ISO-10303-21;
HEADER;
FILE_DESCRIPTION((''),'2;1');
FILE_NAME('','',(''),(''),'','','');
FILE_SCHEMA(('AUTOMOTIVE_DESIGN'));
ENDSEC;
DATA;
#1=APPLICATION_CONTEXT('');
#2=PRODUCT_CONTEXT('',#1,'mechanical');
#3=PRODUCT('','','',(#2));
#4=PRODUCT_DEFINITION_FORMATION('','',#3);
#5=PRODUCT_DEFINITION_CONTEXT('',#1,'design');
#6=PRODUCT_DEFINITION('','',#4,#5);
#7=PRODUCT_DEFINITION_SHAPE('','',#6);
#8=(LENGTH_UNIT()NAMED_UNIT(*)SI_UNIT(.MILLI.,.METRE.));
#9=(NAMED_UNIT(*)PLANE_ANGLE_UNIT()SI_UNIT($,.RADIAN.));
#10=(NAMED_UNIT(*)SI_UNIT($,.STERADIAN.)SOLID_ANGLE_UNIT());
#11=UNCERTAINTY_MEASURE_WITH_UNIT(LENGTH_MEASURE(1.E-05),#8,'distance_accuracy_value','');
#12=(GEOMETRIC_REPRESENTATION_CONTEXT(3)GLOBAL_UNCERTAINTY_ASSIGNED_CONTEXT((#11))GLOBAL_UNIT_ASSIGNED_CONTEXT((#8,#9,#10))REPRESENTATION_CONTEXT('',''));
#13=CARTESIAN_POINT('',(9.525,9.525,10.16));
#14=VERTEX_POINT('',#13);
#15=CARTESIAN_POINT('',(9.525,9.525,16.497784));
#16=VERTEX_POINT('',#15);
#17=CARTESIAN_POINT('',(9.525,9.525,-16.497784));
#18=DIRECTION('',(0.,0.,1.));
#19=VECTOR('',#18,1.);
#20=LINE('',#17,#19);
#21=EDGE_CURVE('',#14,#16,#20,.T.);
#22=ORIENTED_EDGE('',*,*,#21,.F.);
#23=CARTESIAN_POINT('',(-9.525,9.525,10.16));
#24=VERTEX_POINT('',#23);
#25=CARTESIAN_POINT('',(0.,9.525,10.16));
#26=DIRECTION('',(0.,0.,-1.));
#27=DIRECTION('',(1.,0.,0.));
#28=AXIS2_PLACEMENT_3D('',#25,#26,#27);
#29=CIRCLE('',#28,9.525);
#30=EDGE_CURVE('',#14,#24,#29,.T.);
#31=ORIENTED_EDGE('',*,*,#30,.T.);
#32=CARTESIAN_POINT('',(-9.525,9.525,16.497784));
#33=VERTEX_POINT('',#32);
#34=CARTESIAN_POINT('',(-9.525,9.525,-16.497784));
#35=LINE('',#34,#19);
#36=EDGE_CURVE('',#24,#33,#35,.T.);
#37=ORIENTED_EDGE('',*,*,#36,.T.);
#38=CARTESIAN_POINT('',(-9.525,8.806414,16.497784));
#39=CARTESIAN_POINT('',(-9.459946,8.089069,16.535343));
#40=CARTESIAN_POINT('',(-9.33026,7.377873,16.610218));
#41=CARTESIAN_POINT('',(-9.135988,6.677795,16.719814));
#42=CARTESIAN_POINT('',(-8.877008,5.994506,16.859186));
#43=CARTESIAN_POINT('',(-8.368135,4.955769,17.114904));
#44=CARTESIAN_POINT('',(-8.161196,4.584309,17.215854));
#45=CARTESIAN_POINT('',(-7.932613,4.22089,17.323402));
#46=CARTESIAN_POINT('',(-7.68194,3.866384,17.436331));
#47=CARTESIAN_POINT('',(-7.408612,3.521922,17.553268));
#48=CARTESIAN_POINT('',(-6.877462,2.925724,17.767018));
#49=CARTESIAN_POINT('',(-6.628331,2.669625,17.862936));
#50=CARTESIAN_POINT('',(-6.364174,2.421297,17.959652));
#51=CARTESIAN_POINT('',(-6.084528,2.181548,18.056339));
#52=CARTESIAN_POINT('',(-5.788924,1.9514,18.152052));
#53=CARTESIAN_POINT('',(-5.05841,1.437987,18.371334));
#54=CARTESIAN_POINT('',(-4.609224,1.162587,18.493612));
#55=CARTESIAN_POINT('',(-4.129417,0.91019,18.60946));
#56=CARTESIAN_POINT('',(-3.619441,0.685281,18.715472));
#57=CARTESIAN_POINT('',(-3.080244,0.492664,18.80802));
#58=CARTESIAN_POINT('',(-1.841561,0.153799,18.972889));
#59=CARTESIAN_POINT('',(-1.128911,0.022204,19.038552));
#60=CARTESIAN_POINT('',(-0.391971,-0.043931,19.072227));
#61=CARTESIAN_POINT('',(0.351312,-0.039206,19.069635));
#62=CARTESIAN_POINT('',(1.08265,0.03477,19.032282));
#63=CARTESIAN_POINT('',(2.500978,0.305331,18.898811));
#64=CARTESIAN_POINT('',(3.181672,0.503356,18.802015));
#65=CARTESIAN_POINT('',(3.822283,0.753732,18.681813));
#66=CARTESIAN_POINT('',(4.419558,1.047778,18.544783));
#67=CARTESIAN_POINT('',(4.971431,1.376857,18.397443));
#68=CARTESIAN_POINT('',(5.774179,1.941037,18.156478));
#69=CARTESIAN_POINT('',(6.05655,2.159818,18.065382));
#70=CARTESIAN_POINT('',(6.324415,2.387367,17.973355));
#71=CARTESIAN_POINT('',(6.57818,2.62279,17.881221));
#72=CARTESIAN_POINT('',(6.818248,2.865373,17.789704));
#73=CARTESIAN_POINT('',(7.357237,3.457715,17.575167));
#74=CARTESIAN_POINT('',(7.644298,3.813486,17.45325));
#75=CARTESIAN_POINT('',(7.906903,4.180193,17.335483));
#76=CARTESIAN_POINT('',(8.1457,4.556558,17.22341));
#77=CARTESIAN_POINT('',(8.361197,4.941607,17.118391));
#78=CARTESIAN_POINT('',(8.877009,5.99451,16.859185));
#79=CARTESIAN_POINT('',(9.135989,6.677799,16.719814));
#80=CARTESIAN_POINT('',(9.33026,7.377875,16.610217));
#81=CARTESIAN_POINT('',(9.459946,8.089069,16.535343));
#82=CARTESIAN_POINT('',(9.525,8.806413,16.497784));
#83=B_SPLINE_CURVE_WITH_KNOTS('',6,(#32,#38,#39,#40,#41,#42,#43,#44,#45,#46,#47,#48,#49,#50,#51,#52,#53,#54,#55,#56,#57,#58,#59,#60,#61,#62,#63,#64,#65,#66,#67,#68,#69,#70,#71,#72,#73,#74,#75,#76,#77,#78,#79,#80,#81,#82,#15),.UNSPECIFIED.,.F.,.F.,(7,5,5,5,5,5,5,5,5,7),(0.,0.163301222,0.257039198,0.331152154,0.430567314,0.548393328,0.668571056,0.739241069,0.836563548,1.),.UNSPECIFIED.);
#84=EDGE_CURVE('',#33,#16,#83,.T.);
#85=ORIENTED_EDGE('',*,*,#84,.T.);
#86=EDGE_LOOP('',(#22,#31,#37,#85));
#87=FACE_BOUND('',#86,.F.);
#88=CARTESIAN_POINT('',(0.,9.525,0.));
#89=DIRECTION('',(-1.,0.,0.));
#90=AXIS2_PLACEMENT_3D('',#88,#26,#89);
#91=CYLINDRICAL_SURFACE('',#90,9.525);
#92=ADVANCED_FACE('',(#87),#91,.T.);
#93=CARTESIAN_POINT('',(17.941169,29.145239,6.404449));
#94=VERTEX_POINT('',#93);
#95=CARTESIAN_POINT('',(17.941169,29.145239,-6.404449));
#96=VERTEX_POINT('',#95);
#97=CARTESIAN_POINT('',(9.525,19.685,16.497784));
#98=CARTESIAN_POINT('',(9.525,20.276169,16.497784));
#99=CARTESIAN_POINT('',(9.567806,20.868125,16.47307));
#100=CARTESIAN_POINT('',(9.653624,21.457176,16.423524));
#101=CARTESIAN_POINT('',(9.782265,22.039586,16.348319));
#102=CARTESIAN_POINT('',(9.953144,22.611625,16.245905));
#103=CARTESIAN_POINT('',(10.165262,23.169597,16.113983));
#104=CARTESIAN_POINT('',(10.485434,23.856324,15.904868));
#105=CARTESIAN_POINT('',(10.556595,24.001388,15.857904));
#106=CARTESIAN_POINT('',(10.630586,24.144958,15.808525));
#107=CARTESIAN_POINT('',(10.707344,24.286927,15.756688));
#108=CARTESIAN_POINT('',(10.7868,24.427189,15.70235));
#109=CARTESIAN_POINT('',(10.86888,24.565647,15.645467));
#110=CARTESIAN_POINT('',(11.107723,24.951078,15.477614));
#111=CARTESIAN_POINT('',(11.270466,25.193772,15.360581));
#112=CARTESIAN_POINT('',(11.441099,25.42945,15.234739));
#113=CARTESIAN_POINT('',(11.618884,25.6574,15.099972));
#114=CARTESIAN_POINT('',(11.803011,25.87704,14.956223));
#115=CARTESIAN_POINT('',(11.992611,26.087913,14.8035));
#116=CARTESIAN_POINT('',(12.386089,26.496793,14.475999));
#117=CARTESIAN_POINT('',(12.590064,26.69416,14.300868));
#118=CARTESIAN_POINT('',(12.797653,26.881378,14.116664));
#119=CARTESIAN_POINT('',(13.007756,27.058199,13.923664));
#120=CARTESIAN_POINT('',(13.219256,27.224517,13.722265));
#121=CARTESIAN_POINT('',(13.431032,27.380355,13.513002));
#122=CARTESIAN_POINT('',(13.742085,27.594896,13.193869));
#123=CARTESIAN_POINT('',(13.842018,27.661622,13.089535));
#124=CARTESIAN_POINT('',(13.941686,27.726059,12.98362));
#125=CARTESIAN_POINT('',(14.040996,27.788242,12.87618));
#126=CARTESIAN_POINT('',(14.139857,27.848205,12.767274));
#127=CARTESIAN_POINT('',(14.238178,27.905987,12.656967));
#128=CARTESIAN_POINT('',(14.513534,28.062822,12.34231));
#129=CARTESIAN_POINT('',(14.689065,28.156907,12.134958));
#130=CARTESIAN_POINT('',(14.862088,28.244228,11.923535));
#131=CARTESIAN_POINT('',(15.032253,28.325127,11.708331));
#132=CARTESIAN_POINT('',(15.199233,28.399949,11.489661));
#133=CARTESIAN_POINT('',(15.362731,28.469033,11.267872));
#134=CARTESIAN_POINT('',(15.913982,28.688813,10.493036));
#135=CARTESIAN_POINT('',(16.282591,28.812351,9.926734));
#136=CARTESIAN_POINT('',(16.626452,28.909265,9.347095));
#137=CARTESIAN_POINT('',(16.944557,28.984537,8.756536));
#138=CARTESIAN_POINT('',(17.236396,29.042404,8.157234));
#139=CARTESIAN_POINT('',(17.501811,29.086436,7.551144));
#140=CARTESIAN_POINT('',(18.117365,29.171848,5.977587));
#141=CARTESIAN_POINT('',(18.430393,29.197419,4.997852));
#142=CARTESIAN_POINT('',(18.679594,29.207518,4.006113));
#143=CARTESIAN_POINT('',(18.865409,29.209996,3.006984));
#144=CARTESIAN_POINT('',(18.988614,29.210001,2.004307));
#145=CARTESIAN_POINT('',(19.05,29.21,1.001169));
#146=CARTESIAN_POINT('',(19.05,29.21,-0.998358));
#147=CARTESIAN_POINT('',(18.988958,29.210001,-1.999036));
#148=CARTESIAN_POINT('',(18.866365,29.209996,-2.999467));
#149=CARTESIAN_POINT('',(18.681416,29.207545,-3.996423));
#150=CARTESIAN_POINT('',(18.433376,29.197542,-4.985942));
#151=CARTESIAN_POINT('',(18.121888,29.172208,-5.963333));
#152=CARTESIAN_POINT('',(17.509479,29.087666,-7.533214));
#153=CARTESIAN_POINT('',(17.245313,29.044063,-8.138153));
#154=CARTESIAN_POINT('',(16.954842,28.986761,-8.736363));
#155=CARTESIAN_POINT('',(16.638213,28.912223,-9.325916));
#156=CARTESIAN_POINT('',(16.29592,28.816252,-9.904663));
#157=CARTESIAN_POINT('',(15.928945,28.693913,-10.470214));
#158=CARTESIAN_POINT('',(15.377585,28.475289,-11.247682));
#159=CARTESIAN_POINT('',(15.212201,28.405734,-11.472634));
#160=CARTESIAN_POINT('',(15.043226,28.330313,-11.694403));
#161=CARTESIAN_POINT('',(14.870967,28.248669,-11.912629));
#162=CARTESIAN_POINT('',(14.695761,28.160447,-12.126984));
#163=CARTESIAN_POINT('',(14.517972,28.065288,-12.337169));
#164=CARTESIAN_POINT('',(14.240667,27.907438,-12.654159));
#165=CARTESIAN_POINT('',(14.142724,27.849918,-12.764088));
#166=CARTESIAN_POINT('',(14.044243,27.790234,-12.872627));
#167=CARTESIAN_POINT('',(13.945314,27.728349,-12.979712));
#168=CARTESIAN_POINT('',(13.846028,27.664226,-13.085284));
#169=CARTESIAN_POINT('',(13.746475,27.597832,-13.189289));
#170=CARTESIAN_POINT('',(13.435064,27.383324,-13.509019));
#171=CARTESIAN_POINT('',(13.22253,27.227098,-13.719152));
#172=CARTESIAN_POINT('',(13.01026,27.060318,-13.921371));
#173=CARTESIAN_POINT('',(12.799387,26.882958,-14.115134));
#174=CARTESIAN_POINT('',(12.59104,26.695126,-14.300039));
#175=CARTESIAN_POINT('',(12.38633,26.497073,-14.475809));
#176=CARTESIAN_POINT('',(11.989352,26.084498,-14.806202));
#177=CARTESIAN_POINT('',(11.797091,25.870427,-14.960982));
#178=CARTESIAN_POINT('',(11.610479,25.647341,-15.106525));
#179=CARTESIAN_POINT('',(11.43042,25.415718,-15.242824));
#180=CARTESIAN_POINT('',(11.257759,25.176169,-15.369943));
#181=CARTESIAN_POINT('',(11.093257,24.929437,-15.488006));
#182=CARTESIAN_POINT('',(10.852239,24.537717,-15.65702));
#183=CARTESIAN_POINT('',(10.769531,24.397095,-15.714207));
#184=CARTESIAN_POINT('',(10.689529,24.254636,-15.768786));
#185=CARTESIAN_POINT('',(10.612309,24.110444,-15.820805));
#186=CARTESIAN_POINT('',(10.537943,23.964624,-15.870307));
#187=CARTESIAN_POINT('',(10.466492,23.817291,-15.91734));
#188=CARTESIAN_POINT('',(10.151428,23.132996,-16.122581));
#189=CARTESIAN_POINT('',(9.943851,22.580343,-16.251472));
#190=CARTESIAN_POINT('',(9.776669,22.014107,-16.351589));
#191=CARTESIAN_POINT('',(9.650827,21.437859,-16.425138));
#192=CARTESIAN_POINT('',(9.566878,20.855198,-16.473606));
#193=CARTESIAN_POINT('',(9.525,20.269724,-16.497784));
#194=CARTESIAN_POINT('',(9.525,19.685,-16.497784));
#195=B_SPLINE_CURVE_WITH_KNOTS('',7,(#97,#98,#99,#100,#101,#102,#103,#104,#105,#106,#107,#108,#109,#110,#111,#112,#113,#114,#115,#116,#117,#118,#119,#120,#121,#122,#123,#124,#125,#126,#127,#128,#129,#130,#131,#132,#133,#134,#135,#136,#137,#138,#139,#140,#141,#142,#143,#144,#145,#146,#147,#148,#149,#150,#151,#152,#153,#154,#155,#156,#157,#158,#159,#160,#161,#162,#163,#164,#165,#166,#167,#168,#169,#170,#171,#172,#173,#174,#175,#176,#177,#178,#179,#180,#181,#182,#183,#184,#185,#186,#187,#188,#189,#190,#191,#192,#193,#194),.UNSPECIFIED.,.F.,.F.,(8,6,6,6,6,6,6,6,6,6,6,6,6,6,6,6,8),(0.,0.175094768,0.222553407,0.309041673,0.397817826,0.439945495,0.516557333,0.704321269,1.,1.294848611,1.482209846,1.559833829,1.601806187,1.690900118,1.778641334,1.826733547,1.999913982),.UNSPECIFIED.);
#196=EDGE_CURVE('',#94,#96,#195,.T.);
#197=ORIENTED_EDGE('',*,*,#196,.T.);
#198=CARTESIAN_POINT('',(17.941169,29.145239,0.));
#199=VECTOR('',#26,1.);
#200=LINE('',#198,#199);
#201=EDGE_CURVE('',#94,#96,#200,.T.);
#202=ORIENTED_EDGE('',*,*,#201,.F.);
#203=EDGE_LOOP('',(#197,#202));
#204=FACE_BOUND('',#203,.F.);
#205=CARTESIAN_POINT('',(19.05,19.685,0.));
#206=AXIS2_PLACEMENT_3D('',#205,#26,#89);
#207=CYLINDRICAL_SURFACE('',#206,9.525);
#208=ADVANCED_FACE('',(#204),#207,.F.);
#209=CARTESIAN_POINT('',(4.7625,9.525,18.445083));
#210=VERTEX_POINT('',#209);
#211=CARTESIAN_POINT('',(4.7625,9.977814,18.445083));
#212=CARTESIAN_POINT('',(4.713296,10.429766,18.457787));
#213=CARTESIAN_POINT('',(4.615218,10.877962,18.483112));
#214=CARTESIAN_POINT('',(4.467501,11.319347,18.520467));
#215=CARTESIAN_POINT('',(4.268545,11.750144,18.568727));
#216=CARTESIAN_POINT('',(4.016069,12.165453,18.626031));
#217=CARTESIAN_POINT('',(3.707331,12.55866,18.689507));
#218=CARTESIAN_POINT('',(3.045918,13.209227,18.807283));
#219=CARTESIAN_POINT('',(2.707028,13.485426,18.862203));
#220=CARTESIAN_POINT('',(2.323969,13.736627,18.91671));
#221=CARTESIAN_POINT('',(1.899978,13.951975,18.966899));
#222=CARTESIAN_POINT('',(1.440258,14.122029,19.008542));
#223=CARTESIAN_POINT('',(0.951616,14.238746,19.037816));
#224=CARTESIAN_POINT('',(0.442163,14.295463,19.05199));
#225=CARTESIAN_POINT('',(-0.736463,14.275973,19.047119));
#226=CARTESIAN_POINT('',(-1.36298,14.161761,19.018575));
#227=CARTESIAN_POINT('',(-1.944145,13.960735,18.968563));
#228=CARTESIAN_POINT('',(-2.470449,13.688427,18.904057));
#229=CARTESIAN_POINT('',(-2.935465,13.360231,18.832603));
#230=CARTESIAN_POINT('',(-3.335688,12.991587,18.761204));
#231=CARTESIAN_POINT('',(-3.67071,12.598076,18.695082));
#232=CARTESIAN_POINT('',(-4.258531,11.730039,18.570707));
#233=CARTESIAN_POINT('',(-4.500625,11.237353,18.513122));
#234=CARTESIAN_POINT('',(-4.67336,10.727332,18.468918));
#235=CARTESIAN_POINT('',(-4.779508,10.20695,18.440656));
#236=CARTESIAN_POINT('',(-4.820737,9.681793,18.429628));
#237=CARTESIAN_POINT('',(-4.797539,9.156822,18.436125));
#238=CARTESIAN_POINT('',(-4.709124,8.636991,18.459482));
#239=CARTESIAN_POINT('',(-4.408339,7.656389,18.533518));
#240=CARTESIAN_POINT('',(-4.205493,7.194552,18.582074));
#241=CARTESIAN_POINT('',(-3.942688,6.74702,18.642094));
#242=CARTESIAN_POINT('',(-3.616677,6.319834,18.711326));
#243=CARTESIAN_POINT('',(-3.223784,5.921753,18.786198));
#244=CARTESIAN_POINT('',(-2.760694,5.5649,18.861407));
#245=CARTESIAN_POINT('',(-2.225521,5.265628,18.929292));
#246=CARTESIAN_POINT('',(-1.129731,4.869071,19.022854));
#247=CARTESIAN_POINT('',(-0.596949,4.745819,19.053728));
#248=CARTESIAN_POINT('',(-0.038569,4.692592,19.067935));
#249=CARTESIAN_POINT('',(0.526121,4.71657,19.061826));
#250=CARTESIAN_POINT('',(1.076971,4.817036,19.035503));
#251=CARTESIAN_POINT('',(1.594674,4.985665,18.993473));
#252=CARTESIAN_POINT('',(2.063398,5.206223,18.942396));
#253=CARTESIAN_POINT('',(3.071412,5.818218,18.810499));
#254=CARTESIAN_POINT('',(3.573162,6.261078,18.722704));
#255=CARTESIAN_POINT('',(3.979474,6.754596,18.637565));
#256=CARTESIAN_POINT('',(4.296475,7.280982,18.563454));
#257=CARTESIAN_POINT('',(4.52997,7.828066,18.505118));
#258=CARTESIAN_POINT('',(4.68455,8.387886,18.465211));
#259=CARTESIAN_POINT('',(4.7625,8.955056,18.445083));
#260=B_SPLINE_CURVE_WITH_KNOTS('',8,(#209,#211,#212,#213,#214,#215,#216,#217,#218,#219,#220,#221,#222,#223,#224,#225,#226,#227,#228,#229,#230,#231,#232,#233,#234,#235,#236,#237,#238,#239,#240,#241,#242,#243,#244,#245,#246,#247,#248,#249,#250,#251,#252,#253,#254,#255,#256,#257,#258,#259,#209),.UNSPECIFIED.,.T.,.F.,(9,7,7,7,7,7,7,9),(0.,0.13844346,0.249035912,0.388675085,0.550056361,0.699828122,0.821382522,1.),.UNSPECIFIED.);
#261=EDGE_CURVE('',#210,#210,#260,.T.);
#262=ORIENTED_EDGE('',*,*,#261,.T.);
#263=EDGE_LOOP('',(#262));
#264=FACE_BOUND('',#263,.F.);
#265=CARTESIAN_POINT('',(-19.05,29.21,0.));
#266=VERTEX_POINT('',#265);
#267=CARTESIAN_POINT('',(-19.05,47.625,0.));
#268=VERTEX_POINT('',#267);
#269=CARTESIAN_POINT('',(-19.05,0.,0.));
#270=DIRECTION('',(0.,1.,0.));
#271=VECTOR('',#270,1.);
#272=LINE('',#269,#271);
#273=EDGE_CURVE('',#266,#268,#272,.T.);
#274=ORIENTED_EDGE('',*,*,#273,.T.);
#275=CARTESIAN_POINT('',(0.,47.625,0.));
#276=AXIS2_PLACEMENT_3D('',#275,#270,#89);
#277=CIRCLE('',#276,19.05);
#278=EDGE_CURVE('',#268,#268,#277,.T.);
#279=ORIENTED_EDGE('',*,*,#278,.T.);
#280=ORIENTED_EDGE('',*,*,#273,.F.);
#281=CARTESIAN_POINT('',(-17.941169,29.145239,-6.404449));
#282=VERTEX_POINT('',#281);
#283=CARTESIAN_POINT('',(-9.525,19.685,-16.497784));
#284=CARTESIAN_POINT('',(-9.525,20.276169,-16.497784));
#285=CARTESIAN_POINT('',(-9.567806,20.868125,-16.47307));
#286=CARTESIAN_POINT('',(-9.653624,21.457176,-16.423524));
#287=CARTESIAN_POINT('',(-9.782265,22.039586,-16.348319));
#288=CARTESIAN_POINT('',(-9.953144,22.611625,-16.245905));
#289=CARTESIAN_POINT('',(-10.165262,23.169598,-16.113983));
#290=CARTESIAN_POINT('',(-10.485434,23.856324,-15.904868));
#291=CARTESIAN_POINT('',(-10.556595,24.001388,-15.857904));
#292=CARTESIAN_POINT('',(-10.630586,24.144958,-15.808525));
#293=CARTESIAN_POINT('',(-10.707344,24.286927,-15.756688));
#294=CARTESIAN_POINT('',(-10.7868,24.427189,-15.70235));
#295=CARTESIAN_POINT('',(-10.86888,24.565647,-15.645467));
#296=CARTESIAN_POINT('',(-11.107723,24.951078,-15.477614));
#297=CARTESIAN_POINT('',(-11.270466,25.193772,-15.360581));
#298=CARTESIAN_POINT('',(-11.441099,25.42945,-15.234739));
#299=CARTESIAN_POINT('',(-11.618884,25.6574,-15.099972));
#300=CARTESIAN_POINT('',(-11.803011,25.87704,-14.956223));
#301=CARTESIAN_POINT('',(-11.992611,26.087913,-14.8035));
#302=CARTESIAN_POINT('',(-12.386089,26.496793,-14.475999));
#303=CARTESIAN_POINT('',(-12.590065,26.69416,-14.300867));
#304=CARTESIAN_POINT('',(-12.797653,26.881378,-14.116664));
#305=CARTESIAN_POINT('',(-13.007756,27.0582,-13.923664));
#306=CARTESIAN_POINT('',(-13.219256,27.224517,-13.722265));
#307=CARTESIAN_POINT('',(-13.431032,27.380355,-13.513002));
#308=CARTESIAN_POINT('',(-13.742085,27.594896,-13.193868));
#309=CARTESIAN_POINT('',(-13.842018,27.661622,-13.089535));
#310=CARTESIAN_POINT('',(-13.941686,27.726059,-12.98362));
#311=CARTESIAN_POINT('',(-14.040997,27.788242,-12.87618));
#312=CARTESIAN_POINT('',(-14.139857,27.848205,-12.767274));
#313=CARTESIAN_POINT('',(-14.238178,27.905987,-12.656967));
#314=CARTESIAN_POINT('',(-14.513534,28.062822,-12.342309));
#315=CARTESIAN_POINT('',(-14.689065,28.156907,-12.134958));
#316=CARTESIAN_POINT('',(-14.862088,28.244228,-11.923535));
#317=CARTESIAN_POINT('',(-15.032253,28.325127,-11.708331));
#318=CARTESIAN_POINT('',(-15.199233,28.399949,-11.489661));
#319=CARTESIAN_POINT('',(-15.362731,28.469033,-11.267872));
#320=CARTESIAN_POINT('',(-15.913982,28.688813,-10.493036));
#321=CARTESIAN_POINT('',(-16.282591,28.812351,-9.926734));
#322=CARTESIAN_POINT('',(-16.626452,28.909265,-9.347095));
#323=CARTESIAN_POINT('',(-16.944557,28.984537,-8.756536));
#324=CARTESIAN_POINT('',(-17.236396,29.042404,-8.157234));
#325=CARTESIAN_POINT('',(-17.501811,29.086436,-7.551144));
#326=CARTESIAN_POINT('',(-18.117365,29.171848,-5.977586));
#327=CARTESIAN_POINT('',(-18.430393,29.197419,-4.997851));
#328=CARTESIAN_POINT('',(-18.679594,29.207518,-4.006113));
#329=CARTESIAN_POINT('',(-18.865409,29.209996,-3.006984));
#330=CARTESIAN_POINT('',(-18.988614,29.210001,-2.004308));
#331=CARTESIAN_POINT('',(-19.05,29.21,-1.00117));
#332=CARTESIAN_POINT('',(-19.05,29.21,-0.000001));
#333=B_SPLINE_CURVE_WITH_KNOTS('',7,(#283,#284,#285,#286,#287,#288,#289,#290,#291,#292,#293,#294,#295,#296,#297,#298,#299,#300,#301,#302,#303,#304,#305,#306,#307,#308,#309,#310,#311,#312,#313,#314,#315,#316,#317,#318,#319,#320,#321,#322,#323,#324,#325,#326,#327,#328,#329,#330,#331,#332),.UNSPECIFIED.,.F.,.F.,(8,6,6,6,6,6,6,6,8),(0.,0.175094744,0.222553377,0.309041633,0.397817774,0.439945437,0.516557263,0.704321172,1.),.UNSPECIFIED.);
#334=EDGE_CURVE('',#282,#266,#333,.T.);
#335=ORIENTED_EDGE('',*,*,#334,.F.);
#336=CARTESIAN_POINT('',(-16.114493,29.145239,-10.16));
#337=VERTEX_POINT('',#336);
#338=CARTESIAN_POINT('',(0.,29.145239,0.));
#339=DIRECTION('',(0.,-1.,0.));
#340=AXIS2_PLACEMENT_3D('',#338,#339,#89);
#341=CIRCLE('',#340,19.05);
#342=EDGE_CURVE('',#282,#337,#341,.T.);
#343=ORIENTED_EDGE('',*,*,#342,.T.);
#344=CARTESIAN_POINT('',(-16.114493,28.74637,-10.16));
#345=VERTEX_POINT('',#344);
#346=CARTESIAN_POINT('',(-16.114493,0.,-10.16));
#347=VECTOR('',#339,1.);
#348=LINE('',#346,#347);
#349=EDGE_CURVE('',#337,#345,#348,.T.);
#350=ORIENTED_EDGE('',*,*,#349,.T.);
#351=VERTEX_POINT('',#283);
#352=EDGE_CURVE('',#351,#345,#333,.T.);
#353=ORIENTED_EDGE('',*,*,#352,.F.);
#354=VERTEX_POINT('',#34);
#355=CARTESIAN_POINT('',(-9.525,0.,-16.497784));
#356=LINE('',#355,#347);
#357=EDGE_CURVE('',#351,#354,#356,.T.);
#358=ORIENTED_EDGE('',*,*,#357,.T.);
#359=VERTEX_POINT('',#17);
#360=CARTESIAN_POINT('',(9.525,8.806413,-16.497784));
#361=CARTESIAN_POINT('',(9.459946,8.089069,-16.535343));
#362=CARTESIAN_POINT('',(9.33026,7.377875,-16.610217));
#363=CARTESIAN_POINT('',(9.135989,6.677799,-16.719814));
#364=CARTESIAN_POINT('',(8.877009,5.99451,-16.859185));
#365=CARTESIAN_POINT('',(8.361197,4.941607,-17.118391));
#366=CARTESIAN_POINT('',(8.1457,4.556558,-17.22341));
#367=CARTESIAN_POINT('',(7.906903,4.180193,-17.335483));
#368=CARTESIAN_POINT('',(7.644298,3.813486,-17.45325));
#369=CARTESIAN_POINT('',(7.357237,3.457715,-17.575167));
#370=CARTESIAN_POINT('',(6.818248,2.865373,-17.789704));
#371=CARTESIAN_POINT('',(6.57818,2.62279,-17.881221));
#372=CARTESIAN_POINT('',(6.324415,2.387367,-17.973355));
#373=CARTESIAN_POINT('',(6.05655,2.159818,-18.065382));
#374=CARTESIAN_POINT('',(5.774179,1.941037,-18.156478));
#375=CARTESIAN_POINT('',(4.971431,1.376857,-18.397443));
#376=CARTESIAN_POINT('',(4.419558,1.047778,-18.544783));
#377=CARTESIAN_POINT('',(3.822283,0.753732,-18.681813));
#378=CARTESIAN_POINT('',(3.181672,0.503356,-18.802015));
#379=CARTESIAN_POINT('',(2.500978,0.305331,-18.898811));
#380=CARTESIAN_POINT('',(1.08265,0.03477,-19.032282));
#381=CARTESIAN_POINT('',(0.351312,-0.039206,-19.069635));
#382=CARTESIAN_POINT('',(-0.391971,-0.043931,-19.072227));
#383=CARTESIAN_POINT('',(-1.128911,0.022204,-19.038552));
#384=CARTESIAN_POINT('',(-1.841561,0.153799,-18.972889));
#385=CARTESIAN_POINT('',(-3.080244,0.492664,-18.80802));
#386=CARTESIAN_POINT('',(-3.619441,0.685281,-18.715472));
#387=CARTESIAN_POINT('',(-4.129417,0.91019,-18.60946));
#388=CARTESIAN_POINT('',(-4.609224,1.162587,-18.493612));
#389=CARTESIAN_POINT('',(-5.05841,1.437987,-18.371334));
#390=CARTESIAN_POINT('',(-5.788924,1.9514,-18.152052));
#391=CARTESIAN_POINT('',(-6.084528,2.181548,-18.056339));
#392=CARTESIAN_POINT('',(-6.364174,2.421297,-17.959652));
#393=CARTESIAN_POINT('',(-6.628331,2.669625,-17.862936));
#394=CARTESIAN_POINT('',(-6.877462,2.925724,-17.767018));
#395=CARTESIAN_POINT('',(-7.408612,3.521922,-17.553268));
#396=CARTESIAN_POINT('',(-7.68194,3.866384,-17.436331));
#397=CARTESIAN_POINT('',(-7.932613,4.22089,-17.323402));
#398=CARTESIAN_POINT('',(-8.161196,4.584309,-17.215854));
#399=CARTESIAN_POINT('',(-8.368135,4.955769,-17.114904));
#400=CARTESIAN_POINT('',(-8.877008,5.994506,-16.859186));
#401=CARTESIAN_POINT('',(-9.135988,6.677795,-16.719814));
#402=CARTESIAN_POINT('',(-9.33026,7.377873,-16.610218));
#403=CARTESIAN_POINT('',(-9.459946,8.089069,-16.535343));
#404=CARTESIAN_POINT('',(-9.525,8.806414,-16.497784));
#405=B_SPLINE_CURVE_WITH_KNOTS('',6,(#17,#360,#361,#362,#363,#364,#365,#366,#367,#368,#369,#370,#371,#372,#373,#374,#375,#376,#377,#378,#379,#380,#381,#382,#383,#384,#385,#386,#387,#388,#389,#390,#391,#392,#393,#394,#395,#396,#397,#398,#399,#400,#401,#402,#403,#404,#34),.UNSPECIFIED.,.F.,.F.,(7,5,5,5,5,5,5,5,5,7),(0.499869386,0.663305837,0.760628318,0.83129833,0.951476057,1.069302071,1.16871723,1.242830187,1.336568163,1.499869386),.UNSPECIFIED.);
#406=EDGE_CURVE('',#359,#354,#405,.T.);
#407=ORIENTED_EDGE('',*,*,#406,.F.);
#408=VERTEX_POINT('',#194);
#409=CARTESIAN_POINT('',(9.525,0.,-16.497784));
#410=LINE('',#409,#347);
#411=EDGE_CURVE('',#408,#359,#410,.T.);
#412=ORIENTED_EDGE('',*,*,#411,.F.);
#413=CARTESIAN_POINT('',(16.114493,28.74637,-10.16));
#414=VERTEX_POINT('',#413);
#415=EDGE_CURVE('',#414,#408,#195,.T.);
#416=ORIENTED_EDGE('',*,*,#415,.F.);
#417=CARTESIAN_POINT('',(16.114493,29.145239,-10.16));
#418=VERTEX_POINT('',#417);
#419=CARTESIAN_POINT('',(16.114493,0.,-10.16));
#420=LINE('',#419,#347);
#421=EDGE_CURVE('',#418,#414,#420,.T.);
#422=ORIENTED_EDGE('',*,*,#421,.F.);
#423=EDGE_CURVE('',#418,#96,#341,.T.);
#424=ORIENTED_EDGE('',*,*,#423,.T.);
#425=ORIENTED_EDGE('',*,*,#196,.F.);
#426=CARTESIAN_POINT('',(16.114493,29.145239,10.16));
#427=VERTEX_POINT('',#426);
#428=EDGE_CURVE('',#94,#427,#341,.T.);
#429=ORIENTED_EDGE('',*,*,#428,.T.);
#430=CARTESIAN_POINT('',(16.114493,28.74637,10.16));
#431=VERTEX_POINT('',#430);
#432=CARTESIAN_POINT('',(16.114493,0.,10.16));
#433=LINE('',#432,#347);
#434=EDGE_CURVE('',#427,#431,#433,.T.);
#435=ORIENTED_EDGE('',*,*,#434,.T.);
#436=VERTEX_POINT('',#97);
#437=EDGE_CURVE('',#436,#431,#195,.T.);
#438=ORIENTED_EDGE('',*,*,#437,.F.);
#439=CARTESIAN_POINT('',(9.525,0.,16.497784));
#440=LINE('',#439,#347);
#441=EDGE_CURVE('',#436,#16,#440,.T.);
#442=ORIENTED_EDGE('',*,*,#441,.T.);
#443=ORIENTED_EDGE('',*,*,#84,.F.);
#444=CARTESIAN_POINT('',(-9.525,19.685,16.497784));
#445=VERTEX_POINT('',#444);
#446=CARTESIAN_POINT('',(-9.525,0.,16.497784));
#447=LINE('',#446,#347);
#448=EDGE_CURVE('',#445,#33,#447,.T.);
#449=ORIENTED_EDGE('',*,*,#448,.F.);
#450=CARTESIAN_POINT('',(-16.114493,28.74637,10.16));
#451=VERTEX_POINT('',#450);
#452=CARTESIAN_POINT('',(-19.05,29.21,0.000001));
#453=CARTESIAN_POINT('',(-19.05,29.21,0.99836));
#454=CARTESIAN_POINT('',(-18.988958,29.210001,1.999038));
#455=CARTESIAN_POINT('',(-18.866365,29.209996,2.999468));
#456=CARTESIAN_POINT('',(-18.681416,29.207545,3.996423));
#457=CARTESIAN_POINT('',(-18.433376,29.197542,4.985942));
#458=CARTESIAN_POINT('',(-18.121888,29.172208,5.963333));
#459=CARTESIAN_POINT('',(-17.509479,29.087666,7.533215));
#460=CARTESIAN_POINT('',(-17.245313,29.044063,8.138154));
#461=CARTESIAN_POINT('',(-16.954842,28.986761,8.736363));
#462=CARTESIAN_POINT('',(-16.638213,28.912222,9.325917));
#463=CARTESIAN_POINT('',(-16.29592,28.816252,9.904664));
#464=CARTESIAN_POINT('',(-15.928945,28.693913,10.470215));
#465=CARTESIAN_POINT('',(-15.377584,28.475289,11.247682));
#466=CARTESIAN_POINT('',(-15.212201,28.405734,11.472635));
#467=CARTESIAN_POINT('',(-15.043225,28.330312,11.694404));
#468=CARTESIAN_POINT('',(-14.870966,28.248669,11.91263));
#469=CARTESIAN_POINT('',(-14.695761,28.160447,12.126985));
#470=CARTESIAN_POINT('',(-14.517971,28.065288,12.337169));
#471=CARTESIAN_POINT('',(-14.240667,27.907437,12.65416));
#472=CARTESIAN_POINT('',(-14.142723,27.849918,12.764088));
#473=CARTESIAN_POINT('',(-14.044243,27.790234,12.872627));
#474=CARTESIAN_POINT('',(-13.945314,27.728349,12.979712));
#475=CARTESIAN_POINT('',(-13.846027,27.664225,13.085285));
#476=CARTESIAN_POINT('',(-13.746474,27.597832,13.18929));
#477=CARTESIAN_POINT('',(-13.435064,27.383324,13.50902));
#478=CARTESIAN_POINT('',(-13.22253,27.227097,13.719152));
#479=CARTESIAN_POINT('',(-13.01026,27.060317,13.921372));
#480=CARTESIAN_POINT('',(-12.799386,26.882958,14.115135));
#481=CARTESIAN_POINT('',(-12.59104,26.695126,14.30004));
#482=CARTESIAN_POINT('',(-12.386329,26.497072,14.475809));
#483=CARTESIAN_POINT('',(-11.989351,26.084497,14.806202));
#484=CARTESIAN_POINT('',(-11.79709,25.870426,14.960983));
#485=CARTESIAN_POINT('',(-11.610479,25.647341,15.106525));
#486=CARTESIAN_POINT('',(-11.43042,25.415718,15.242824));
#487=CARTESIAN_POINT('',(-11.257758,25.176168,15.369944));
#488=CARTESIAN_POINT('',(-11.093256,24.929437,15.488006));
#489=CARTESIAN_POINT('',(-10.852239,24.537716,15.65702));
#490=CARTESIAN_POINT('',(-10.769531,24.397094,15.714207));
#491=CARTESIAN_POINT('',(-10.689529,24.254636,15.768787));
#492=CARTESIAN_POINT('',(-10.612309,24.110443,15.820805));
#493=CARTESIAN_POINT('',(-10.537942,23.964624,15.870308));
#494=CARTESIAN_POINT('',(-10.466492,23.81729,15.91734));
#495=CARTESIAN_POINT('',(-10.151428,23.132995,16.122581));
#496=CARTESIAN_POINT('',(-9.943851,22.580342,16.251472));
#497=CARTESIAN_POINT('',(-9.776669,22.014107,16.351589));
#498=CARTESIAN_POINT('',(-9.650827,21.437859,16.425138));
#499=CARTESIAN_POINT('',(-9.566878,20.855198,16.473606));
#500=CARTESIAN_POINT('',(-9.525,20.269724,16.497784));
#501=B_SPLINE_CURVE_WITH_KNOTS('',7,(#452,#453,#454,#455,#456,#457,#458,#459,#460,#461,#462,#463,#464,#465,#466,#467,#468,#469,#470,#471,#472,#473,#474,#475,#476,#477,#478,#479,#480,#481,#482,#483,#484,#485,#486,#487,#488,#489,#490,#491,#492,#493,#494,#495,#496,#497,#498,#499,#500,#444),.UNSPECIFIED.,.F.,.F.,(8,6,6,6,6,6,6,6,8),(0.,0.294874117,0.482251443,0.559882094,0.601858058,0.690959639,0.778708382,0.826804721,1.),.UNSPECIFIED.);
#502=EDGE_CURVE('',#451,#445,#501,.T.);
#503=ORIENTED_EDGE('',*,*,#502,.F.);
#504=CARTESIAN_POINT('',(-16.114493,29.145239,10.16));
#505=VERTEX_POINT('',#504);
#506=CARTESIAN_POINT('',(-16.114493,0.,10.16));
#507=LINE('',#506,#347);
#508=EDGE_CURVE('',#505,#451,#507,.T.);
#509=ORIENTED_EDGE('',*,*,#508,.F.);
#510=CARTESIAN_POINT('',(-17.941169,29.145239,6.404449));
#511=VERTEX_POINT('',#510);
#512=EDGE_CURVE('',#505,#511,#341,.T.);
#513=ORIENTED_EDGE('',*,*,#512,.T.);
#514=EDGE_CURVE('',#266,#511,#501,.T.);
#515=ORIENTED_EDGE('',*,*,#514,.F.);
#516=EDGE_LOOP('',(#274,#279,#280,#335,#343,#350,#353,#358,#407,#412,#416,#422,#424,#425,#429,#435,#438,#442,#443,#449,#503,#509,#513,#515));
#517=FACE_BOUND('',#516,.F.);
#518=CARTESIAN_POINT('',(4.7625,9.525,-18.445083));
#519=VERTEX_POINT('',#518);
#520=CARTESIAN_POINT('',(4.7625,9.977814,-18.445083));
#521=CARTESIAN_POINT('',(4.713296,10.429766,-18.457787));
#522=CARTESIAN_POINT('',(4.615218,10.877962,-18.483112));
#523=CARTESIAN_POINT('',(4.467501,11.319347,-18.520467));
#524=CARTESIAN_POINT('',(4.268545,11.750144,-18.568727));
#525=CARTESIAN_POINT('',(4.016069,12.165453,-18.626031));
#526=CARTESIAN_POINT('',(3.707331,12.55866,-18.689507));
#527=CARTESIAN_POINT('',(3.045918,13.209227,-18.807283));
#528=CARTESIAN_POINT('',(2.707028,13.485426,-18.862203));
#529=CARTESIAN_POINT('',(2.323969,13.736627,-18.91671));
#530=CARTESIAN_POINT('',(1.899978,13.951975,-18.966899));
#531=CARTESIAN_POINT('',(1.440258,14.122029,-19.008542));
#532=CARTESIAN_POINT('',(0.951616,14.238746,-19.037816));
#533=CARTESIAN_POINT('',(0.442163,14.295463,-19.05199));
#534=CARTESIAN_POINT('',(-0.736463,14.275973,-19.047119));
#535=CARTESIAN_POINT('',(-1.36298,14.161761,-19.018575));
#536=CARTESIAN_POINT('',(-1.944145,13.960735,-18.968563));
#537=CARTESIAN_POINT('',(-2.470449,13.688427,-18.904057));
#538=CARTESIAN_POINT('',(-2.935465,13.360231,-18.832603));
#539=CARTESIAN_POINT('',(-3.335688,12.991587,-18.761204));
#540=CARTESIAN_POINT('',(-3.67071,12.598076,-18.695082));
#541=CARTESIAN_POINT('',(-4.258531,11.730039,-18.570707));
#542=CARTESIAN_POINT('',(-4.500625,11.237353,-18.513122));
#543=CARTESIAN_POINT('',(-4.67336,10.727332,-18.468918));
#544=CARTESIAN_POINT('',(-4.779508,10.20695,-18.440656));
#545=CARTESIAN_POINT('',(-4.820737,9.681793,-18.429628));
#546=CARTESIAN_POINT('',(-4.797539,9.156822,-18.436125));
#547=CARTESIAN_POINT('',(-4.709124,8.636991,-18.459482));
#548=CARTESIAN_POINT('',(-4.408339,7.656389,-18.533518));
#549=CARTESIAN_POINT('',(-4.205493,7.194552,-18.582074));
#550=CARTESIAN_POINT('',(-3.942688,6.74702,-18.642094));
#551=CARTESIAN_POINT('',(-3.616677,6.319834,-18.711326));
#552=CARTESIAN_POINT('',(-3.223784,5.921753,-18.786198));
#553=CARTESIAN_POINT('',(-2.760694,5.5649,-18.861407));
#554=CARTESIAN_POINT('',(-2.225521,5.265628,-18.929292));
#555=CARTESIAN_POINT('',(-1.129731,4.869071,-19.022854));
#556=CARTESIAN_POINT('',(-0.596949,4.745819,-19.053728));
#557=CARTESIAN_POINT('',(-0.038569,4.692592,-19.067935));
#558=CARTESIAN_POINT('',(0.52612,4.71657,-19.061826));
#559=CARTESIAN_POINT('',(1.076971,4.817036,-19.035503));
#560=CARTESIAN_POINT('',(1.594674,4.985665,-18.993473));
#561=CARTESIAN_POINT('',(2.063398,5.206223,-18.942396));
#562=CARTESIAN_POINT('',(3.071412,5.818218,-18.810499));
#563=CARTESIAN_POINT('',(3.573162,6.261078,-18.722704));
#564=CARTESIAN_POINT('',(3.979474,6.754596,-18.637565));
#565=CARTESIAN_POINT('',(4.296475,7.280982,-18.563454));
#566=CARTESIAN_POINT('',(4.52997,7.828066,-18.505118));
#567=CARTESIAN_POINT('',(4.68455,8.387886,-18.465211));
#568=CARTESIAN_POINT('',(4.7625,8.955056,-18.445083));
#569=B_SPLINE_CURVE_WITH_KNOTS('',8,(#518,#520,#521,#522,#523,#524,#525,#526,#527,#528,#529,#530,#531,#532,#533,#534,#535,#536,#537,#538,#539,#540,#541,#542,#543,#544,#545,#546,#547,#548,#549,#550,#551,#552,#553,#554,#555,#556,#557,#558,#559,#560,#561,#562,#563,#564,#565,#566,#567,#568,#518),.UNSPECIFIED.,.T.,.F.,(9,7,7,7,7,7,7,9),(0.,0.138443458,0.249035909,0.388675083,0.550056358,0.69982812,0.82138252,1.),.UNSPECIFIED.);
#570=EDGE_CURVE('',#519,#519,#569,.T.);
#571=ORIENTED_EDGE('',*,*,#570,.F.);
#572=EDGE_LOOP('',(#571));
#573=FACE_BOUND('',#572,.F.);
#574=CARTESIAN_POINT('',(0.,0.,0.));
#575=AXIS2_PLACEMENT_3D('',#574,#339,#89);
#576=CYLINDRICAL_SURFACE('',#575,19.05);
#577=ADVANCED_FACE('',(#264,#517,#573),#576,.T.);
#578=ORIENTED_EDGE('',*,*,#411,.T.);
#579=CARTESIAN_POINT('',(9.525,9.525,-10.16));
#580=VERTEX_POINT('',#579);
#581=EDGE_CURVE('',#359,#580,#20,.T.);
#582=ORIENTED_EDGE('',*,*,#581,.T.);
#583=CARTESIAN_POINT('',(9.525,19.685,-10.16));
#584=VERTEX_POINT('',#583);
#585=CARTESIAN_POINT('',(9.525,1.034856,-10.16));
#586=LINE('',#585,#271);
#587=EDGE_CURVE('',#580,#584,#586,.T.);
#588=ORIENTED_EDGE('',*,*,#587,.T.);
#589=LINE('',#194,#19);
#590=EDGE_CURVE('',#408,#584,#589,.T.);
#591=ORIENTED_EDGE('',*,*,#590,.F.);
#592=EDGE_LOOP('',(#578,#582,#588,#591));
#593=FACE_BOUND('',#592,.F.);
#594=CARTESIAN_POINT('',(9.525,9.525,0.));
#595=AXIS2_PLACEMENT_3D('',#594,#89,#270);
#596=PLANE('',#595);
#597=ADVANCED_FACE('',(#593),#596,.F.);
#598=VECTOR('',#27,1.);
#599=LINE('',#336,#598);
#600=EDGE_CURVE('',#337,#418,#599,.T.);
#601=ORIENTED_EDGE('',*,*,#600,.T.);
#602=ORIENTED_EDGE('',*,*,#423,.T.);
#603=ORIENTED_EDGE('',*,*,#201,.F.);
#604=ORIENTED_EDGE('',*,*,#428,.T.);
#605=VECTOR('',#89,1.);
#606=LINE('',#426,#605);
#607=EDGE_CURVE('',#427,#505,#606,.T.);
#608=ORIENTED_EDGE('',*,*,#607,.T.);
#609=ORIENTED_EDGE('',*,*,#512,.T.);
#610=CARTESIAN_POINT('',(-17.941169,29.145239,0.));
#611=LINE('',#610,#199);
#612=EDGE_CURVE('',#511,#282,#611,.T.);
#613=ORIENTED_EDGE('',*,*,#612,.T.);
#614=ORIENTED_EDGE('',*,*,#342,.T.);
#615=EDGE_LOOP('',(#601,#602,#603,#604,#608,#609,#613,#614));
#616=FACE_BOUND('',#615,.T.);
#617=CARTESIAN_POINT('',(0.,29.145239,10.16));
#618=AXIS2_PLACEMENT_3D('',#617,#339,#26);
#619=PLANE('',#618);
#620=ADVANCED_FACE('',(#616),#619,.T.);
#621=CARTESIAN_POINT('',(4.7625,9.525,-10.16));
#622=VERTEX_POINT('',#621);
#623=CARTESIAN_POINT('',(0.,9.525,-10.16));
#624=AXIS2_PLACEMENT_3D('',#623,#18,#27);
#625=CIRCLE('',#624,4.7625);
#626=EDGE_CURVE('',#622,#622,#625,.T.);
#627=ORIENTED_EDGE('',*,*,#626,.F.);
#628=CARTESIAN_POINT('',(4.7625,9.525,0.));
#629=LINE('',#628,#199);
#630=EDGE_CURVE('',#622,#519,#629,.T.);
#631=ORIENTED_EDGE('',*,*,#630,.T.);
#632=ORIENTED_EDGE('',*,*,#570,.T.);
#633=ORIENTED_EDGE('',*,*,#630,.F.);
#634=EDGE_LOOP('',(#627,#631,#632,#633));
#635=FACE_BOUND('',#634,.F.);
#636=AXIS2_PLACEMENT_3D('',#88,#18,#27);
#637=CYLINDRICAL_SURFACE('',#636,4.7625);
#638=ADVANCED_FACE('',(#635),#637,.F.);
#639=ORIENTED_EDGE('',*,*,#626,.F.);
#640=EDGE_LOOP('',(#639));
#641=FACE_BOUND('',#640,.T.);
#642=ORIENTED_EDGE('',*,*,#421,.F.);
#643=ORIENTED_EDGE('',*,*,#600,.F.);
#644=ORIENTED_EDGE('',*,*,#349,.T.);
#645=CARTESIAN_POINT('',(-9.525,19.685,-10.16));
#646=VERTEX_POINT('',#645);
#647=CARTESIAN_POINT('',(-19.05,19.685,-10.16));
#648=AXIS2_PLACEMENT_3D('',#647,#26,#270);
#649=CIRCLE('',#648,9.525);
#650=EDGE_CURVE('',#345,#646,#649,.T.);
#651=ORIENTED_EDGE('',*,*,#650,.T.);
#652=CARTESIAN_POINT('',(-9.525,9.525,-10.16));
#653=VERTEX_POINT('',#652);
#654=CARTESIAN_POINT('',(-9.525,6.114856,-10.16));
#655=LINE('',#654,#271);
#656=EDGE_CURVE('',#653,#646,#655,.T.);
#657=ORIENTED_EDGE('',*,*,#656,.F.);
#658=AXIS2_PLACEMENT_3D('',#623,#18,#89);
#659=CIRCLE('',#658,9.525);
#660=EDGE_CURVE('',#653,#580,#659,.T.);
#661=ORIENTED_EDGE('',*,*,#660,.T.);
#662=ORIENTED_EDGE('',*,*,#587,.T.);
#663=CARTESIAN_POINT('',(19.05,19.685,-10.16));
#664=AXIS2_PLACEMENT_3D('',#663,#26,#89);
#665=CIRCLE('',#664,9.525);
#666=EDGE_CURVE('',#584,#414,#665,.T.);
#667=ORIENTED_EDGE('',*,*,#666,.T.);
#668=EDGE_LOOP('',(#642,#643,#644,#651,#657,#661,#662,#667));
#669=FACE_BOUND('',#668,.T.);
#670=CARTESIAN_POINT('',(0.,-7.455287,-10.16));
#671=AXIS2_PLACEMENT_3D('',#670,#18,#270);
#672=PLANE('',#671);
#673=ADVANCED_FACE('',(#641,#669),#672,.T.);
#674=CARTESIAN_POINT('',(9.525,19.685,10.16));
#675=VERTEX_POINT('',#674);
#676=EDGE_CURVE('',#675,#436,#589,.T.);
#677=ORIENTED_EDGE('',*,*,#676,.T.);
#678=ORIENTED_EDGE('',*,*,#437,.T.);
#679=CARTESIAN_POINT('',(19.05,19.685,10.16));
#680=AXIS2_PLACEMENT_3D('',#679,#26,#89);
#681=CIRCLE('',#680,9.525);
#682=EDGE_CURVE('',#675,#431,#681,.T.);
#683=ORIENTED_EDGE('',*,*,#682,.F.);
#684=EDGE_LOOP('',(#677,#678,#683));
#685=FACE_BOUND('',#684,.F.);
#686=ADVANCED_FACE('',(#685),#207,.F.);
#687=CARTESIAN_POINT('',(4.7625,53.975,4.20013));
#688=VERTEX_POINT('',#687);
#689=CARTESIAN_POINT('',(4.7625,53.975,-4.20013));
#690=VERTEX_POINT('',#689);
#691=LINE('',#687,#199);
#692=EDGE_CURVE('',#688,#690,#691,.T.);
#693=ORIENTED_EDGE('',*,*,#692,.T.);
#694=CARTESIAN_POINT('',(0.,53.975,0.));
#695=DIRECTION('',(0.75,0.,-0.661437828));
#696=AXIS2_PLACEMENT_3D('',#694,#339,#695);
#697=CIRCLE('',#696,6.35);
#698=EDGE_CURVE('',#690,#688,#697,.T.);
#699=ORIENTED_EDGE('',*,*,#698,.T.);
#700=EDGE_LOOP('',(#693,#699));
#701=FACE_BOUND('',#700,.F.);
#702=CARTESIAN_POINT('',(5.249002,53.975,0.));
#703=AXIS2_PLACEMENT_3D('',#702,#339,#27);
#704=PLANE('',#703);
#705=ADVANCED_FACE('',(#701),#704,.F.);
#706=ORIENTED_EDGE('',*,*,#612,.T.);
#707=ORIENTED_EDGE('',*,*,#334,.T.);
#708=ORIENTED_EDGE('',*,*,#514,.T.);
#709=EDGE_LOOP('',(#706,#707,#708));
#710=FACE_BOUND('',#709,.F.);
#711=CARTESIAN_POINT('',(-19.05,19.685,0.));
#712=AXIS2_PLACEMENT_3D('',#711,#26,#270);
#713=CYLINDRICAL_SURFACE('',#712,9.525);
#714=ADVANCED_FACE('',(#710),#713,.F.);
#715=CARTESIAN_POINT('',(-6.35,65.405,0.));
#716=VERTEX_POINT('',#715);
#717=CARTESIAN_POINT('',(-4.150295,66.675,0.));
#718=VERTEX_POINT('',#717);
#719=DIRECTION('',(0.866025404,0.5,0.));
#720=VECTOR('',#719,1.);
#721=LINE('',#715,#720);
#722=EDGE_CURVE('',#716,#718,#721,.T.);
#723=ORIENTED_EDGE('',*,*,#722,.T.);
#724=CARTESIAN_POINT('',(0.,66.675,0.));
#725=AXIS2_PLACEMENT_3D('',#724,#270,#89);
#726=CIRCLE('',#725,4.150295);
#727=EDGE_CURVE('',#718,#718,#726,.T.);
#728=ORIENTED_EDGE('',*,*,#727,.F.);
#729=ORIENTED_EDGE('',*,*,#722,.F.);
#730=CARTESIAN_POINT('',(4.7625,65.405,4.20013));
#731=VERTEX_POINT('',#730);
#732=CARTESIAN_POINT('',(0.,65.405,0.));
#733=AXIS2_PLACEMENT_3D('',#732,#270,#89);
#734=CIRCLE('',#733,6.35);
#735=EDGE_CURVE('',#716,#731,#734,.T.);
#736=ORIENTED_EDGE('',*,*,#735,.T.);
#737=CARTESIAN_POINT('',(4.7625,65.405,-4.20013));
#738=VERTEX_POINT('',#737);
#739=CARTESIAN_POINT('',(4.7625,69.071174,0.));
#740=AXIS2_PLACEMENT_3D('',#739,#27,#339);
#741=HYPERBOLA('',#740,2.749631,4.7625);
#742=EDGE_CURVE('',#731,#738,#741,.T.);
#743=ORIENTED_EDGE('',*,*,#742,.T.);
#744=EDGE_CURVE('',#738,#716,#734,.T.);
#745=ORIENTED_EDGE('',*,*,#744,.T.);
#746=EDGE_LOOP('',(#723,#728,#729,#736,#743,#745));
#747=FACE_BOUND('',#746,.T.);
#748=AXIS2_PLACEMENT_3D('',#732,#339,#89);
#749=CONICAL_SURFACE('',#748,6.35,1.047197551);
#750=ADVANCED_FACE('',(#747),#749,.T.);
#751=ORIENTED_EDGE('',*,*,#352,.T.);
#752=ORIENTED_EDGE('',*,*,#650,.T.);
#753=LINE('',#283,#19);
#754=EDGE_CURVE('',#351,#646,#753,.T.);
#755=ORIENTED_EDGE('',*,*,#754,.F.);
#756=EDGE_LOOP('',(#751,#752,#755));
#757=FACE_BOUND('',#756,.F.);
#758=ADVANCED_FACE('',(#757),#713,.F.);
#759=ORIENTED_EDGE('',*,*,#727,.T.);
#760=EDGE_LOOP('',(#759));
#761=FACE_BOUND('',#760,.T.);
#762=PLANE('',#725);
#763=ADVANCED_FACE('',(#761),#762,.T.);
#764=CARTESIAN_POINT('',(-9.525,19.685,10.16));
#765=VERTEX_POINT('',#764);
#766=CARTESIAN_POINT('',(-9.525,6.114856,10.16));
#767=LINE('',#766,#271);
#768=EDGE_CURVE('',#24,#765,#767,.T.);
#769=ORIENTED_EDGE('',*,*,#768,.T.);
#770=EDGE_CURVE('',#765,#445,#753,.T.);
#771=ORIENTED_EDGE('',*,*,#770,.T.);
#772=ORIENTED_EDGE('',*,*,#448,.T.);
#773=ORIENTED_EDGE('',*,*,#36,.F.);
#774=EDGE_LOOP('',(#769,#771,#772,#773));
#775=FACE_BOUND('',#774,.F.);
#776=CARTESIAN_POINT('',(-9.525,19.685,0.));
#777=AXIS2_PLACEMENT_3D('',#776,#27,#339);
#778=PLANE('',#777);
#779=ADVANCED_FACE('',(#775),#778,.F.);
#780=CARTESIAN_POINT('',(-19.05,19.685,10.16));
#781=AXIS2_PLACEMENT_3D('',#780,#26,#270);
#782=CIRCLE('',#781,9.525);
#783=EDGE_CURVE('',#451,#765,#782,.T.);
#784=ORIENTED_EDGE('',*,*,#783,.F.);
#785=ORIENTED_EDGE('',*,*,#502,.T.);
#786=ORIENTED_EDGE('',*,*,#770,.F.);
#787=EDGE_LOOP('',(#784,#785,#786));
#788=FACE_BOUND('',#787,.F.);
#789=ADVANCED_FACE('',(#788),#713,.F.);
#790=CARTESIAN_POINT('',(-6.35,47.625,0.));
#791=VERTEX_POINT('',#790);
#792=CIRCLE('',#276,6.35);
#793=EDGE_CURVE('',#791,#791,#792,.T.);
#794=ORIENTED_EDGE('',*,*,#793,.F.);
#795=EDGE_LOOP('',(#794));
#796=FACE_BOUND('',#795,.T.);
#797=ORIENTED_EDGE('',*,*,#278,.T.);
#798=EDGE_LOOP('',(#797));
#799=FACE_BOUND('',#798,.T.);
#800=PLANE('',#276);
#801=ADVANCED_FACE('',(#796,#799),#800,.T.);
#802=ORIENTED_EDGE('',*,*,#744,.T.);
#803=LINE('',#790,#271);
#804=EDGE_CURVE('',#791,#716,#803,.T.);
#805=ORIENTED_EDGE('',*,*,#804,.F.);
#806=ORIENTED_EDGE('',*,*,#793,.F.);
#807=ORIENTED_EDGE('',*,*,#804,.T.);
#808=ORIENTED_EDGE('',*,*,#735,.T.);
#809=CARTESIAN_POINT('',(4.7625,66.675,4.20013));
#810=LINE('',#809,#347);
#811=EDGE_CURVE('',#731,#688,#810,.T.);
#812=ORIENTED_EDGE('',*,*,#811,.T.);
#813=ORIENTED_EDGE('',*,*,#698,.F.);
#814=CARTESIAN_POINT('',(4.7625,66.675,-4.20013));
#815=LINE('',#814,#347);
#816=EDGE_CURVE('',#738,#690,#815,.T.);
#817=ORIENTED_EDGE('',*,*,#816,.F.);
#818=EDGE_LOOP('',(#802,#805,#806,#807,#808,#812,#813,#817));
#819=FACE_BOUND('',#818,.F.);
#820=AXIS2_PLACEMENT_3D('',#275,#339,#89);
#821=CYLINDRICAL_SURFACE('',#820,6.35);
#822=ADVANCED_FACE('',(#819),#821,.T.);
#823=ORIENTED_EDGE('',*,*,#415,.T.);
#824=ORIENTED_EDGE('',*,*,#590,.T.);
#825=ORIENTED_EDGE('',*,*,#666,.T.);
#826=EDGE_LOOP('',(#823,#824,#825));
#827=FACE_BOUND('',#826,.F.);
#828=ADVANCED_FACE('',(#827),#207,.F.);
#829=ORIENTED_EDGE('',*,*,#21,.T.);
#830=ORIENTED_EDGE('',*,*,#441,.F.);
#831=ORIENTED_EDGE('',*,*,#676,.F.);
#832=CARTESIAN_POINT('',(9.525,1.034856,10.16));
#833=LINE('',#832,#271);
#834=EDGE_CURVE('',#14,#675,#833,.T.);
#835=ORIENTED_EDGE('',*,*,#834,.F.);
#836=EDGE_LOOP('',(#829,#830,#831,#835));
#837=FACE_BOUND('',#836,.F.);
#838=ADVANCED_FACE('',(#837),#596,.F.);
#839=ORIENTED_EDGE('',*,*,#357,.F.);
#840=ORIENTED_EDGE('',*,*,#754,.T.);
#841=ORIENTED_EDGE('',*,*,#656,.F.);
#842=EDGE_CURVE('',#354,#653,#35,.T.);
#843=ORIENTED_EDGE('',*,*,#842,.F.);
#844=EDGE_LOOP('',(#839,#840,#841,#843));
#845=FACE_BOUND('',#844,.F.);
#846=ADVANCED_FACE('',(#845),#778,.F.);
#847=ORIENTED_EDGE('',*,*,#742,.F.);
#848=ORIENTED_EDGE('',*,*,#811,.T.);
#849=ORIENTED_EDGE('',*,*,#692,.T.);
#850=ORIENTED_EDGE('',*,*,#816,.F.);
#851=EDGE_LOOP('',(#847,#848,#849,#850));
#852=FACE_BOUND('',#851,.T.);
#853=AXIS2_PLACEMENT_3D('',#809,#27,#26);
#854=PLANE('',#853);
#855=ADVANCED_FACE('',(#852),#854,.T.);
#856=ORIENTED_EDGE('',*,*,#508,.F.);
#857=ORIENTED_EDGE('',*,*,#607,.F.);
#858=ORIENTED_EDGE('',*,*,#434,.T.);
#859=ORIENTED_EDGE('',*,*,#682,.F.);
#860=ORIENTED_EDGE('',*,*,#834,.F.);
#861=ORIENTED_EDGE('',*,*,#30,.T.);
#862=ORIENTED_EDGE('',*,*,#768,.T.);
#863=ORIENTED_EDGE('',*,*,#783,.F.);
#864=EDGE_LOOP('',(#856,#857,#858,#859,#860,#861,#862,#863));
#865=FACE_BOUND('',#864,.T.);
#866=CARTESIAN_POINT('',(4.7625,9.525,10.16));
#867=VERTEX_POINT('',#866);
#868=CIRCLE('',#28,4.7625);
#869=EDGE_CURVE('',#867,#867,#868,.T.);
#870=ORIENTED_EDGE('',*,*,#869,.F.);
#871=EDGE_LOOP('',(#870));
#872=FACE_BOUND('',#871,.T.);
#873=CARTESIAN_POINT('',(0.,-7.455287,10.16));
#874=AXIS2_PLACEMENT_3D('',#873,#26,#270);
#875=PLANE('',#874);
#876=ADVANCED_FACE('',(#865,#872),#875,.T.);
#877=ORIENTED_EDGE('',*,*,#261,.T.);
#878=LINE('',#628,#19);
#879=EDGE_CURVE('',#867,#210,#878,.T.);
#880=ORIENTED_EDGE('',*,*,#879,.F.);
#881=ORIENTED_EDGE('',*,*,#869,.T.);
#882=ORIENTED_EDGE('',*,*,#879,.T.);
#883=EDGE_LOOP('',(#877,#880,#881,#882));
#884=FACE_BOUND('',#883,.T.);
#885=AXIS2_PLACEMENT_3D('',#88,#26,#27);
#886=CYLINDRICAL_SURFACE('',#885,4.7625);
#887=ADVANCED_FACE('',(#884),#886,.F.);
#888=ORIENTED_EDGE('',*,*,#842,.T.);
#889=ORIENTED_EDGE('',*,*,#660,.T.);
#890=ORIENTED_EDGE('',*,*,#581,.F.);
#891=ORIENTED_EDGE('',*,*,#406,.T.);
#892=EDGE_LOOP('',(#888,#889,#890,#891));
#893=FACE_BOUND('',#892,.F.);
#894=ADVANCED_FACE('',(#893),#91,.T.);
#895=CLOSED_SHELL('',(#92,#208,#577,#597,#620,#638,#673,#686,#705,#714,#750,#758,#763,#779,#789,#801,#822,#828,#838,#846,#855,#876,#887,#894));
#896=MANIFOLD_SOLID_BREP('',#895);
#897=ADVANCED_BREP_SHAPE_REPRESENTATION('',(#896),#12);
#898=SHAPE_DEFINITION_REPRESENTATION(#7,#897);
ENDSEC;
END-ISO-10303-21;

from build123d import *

# Parameters (mm, degrees)
SKETCH1_R               = 19.05
BASE_EXTRUDE_DEPTH      = 47.625
CUT_EXTRUDE1_DEPTH      = 20.05
CUT_EXTRUDE1_DEPTH_BACK = 20.05
SKETCH8_W               = 20.32
SKETCH8_H               = 36.600526062
CUT_EXTRUDE5_DEPTH      = 47.625
CUT_EXTRUDE5_DEPTH_BACK = 20.0500001
SKETCH11_R              = 4.7625
CUT_EXTRUDE6_DEPTH      = 20.0500001
CUT_EXTRUDE6_DEPTH_BACK = 20.0500001
SKETCH12_R              = 6.35
BOSS_EXTRUDE1_DEPTH     = 19.05
CHAMFER3_SIZE           = 1.27
CHAMFER3_SIZE2          = 2.199704526
CUT_EXTRUDE7_DEPTH      = 12.7


with BuildPart() as part:
    # Sketch1 → Base-Extrude (new body)
    with BuildSketch(Plane(origin=(0, 0, 0), x_dir=(-1, 0, 0), z_dir=(0, 1, 0))):
        Circle(SKETCH1_R)
    extrude(amount=BASE_EXTRUDE_DEPTH)

    # Sketch2 → Cut-Extrude1 (cut, two sides)
    with BuildSketch(Plane.XY) as cut_extrude1_sk:
        with BuildLine():
            Line((9.525, 9.525), (9.525, 19.685))
            ThreePointArc((9.525, 19.685), (12.314807909, 26.420192091), (19.05, 29.21))
            Line((19.05, 29.21), (19.05, -1.366191125))
            Line((19.05, -1.366191125), (-19.05, -1.366191125))
            Line((-19.05, -1.366191125), (-19.05, 29.21))
            ThreePointArc((-19.05, 29.21), (-12.314807909, 26.420192091), (-9.525, 19.685))
            Line((-9.525, 19.685), (-9.525, 9.525))
            ThreePointArc((-9.525, 9.525), (0, 0), (9.525, 9.525))
        make_face()
    extrude(amount=CUT_EXTRUDE1_DEPTH, mode=Mode.SUBTRACT)
    extrude(cut_extrude1_sk.sketch, amount=-CUT_EXTRUDE1_DEPTH_BACK, mode=Mode.SUBTRACT)

    # Sketch8 → Cut-Extrude5 (cut, two sides)
    with BuildSketch(Plane(origin=(0, 0, 0), x_dir=(0, 0, -1), z_dir=(1, 0, 0))) as cut_extrude5_sk:
        with Locations((0, 10.844975795)):
            Rectangle(SKETCH8_W, SKETCH8_H)
    extrude(amount=CUT_EXTRUDE5_DEPTH, mode=Mode.SUBTRACT)
    extrude(cut_extrude5_sk.sketch, amount=-CUT_EXTRUDE5_DEPTH_BACK, mode=Mode.SUBTRACT)

    # Sketch11 → Cut-Extrude6 (cut, two sides)
    with BuildSketch(Plane.XY) as cut_extrude6_sk:
        with Locations((0, 9.525)):
            Circle(SKETCH11_R)
    extrude(amount=CUT_EXTRUDE6_DEPTH, mode=Mode.SUBTRACT)
    extrude(cut_extrude6_sk.sketch, amount=-CUT_EXTRUDE6_DEPTH_BACK, mode=Mode.SUBTRACT)

    # Sketch12 → Boss-Extrude1 (add)
    with BuildSketch(Plane(origin=(0, 47.625, 0), x_dir=(-1, 0, 0), z_dir=(0, 1, 0))):
        Circle(SKETCH12_R)
    extrude(amount=BOSS_EXTRUDE1_DEPTH)

    # Chamfer3
    chamfer3_edges = [part.edges().sort_by_distance(p)[0] for p in [
        (6.35, 66.675, 0),
    ]]
    chamfer3_side = [part.faces().sort_by_distance(p)[0] for p in [
        (6.35, 57.15, 0),
    ]]
    chamfer(chamfer3_edges, length=CHAMFER3_SIZE, length2=CHAMFER3_SIZE2, reference=chamfer3_side[0])

    # Sketch13 → Cut-Extrude7 (cut)
    with BuildSketch(Plane(origin=(0, 66.675, 0), x_dir=(-1, 0, 0), z_dir=(0, 1, 0))):
        with BuildLine():
            Line((-4.7625, 4.200130206), (-4.7625, -4.200130206))
            ThreePointArc((-4.7625, -4.200130206), (-6.35, 0), (-4.7625, 4.200130206))
        make_face()
    extrude(amount=-CUT_EXTRUDE7_DEPTH, mode=Mode.SUBTRACT)


solid = part.part
